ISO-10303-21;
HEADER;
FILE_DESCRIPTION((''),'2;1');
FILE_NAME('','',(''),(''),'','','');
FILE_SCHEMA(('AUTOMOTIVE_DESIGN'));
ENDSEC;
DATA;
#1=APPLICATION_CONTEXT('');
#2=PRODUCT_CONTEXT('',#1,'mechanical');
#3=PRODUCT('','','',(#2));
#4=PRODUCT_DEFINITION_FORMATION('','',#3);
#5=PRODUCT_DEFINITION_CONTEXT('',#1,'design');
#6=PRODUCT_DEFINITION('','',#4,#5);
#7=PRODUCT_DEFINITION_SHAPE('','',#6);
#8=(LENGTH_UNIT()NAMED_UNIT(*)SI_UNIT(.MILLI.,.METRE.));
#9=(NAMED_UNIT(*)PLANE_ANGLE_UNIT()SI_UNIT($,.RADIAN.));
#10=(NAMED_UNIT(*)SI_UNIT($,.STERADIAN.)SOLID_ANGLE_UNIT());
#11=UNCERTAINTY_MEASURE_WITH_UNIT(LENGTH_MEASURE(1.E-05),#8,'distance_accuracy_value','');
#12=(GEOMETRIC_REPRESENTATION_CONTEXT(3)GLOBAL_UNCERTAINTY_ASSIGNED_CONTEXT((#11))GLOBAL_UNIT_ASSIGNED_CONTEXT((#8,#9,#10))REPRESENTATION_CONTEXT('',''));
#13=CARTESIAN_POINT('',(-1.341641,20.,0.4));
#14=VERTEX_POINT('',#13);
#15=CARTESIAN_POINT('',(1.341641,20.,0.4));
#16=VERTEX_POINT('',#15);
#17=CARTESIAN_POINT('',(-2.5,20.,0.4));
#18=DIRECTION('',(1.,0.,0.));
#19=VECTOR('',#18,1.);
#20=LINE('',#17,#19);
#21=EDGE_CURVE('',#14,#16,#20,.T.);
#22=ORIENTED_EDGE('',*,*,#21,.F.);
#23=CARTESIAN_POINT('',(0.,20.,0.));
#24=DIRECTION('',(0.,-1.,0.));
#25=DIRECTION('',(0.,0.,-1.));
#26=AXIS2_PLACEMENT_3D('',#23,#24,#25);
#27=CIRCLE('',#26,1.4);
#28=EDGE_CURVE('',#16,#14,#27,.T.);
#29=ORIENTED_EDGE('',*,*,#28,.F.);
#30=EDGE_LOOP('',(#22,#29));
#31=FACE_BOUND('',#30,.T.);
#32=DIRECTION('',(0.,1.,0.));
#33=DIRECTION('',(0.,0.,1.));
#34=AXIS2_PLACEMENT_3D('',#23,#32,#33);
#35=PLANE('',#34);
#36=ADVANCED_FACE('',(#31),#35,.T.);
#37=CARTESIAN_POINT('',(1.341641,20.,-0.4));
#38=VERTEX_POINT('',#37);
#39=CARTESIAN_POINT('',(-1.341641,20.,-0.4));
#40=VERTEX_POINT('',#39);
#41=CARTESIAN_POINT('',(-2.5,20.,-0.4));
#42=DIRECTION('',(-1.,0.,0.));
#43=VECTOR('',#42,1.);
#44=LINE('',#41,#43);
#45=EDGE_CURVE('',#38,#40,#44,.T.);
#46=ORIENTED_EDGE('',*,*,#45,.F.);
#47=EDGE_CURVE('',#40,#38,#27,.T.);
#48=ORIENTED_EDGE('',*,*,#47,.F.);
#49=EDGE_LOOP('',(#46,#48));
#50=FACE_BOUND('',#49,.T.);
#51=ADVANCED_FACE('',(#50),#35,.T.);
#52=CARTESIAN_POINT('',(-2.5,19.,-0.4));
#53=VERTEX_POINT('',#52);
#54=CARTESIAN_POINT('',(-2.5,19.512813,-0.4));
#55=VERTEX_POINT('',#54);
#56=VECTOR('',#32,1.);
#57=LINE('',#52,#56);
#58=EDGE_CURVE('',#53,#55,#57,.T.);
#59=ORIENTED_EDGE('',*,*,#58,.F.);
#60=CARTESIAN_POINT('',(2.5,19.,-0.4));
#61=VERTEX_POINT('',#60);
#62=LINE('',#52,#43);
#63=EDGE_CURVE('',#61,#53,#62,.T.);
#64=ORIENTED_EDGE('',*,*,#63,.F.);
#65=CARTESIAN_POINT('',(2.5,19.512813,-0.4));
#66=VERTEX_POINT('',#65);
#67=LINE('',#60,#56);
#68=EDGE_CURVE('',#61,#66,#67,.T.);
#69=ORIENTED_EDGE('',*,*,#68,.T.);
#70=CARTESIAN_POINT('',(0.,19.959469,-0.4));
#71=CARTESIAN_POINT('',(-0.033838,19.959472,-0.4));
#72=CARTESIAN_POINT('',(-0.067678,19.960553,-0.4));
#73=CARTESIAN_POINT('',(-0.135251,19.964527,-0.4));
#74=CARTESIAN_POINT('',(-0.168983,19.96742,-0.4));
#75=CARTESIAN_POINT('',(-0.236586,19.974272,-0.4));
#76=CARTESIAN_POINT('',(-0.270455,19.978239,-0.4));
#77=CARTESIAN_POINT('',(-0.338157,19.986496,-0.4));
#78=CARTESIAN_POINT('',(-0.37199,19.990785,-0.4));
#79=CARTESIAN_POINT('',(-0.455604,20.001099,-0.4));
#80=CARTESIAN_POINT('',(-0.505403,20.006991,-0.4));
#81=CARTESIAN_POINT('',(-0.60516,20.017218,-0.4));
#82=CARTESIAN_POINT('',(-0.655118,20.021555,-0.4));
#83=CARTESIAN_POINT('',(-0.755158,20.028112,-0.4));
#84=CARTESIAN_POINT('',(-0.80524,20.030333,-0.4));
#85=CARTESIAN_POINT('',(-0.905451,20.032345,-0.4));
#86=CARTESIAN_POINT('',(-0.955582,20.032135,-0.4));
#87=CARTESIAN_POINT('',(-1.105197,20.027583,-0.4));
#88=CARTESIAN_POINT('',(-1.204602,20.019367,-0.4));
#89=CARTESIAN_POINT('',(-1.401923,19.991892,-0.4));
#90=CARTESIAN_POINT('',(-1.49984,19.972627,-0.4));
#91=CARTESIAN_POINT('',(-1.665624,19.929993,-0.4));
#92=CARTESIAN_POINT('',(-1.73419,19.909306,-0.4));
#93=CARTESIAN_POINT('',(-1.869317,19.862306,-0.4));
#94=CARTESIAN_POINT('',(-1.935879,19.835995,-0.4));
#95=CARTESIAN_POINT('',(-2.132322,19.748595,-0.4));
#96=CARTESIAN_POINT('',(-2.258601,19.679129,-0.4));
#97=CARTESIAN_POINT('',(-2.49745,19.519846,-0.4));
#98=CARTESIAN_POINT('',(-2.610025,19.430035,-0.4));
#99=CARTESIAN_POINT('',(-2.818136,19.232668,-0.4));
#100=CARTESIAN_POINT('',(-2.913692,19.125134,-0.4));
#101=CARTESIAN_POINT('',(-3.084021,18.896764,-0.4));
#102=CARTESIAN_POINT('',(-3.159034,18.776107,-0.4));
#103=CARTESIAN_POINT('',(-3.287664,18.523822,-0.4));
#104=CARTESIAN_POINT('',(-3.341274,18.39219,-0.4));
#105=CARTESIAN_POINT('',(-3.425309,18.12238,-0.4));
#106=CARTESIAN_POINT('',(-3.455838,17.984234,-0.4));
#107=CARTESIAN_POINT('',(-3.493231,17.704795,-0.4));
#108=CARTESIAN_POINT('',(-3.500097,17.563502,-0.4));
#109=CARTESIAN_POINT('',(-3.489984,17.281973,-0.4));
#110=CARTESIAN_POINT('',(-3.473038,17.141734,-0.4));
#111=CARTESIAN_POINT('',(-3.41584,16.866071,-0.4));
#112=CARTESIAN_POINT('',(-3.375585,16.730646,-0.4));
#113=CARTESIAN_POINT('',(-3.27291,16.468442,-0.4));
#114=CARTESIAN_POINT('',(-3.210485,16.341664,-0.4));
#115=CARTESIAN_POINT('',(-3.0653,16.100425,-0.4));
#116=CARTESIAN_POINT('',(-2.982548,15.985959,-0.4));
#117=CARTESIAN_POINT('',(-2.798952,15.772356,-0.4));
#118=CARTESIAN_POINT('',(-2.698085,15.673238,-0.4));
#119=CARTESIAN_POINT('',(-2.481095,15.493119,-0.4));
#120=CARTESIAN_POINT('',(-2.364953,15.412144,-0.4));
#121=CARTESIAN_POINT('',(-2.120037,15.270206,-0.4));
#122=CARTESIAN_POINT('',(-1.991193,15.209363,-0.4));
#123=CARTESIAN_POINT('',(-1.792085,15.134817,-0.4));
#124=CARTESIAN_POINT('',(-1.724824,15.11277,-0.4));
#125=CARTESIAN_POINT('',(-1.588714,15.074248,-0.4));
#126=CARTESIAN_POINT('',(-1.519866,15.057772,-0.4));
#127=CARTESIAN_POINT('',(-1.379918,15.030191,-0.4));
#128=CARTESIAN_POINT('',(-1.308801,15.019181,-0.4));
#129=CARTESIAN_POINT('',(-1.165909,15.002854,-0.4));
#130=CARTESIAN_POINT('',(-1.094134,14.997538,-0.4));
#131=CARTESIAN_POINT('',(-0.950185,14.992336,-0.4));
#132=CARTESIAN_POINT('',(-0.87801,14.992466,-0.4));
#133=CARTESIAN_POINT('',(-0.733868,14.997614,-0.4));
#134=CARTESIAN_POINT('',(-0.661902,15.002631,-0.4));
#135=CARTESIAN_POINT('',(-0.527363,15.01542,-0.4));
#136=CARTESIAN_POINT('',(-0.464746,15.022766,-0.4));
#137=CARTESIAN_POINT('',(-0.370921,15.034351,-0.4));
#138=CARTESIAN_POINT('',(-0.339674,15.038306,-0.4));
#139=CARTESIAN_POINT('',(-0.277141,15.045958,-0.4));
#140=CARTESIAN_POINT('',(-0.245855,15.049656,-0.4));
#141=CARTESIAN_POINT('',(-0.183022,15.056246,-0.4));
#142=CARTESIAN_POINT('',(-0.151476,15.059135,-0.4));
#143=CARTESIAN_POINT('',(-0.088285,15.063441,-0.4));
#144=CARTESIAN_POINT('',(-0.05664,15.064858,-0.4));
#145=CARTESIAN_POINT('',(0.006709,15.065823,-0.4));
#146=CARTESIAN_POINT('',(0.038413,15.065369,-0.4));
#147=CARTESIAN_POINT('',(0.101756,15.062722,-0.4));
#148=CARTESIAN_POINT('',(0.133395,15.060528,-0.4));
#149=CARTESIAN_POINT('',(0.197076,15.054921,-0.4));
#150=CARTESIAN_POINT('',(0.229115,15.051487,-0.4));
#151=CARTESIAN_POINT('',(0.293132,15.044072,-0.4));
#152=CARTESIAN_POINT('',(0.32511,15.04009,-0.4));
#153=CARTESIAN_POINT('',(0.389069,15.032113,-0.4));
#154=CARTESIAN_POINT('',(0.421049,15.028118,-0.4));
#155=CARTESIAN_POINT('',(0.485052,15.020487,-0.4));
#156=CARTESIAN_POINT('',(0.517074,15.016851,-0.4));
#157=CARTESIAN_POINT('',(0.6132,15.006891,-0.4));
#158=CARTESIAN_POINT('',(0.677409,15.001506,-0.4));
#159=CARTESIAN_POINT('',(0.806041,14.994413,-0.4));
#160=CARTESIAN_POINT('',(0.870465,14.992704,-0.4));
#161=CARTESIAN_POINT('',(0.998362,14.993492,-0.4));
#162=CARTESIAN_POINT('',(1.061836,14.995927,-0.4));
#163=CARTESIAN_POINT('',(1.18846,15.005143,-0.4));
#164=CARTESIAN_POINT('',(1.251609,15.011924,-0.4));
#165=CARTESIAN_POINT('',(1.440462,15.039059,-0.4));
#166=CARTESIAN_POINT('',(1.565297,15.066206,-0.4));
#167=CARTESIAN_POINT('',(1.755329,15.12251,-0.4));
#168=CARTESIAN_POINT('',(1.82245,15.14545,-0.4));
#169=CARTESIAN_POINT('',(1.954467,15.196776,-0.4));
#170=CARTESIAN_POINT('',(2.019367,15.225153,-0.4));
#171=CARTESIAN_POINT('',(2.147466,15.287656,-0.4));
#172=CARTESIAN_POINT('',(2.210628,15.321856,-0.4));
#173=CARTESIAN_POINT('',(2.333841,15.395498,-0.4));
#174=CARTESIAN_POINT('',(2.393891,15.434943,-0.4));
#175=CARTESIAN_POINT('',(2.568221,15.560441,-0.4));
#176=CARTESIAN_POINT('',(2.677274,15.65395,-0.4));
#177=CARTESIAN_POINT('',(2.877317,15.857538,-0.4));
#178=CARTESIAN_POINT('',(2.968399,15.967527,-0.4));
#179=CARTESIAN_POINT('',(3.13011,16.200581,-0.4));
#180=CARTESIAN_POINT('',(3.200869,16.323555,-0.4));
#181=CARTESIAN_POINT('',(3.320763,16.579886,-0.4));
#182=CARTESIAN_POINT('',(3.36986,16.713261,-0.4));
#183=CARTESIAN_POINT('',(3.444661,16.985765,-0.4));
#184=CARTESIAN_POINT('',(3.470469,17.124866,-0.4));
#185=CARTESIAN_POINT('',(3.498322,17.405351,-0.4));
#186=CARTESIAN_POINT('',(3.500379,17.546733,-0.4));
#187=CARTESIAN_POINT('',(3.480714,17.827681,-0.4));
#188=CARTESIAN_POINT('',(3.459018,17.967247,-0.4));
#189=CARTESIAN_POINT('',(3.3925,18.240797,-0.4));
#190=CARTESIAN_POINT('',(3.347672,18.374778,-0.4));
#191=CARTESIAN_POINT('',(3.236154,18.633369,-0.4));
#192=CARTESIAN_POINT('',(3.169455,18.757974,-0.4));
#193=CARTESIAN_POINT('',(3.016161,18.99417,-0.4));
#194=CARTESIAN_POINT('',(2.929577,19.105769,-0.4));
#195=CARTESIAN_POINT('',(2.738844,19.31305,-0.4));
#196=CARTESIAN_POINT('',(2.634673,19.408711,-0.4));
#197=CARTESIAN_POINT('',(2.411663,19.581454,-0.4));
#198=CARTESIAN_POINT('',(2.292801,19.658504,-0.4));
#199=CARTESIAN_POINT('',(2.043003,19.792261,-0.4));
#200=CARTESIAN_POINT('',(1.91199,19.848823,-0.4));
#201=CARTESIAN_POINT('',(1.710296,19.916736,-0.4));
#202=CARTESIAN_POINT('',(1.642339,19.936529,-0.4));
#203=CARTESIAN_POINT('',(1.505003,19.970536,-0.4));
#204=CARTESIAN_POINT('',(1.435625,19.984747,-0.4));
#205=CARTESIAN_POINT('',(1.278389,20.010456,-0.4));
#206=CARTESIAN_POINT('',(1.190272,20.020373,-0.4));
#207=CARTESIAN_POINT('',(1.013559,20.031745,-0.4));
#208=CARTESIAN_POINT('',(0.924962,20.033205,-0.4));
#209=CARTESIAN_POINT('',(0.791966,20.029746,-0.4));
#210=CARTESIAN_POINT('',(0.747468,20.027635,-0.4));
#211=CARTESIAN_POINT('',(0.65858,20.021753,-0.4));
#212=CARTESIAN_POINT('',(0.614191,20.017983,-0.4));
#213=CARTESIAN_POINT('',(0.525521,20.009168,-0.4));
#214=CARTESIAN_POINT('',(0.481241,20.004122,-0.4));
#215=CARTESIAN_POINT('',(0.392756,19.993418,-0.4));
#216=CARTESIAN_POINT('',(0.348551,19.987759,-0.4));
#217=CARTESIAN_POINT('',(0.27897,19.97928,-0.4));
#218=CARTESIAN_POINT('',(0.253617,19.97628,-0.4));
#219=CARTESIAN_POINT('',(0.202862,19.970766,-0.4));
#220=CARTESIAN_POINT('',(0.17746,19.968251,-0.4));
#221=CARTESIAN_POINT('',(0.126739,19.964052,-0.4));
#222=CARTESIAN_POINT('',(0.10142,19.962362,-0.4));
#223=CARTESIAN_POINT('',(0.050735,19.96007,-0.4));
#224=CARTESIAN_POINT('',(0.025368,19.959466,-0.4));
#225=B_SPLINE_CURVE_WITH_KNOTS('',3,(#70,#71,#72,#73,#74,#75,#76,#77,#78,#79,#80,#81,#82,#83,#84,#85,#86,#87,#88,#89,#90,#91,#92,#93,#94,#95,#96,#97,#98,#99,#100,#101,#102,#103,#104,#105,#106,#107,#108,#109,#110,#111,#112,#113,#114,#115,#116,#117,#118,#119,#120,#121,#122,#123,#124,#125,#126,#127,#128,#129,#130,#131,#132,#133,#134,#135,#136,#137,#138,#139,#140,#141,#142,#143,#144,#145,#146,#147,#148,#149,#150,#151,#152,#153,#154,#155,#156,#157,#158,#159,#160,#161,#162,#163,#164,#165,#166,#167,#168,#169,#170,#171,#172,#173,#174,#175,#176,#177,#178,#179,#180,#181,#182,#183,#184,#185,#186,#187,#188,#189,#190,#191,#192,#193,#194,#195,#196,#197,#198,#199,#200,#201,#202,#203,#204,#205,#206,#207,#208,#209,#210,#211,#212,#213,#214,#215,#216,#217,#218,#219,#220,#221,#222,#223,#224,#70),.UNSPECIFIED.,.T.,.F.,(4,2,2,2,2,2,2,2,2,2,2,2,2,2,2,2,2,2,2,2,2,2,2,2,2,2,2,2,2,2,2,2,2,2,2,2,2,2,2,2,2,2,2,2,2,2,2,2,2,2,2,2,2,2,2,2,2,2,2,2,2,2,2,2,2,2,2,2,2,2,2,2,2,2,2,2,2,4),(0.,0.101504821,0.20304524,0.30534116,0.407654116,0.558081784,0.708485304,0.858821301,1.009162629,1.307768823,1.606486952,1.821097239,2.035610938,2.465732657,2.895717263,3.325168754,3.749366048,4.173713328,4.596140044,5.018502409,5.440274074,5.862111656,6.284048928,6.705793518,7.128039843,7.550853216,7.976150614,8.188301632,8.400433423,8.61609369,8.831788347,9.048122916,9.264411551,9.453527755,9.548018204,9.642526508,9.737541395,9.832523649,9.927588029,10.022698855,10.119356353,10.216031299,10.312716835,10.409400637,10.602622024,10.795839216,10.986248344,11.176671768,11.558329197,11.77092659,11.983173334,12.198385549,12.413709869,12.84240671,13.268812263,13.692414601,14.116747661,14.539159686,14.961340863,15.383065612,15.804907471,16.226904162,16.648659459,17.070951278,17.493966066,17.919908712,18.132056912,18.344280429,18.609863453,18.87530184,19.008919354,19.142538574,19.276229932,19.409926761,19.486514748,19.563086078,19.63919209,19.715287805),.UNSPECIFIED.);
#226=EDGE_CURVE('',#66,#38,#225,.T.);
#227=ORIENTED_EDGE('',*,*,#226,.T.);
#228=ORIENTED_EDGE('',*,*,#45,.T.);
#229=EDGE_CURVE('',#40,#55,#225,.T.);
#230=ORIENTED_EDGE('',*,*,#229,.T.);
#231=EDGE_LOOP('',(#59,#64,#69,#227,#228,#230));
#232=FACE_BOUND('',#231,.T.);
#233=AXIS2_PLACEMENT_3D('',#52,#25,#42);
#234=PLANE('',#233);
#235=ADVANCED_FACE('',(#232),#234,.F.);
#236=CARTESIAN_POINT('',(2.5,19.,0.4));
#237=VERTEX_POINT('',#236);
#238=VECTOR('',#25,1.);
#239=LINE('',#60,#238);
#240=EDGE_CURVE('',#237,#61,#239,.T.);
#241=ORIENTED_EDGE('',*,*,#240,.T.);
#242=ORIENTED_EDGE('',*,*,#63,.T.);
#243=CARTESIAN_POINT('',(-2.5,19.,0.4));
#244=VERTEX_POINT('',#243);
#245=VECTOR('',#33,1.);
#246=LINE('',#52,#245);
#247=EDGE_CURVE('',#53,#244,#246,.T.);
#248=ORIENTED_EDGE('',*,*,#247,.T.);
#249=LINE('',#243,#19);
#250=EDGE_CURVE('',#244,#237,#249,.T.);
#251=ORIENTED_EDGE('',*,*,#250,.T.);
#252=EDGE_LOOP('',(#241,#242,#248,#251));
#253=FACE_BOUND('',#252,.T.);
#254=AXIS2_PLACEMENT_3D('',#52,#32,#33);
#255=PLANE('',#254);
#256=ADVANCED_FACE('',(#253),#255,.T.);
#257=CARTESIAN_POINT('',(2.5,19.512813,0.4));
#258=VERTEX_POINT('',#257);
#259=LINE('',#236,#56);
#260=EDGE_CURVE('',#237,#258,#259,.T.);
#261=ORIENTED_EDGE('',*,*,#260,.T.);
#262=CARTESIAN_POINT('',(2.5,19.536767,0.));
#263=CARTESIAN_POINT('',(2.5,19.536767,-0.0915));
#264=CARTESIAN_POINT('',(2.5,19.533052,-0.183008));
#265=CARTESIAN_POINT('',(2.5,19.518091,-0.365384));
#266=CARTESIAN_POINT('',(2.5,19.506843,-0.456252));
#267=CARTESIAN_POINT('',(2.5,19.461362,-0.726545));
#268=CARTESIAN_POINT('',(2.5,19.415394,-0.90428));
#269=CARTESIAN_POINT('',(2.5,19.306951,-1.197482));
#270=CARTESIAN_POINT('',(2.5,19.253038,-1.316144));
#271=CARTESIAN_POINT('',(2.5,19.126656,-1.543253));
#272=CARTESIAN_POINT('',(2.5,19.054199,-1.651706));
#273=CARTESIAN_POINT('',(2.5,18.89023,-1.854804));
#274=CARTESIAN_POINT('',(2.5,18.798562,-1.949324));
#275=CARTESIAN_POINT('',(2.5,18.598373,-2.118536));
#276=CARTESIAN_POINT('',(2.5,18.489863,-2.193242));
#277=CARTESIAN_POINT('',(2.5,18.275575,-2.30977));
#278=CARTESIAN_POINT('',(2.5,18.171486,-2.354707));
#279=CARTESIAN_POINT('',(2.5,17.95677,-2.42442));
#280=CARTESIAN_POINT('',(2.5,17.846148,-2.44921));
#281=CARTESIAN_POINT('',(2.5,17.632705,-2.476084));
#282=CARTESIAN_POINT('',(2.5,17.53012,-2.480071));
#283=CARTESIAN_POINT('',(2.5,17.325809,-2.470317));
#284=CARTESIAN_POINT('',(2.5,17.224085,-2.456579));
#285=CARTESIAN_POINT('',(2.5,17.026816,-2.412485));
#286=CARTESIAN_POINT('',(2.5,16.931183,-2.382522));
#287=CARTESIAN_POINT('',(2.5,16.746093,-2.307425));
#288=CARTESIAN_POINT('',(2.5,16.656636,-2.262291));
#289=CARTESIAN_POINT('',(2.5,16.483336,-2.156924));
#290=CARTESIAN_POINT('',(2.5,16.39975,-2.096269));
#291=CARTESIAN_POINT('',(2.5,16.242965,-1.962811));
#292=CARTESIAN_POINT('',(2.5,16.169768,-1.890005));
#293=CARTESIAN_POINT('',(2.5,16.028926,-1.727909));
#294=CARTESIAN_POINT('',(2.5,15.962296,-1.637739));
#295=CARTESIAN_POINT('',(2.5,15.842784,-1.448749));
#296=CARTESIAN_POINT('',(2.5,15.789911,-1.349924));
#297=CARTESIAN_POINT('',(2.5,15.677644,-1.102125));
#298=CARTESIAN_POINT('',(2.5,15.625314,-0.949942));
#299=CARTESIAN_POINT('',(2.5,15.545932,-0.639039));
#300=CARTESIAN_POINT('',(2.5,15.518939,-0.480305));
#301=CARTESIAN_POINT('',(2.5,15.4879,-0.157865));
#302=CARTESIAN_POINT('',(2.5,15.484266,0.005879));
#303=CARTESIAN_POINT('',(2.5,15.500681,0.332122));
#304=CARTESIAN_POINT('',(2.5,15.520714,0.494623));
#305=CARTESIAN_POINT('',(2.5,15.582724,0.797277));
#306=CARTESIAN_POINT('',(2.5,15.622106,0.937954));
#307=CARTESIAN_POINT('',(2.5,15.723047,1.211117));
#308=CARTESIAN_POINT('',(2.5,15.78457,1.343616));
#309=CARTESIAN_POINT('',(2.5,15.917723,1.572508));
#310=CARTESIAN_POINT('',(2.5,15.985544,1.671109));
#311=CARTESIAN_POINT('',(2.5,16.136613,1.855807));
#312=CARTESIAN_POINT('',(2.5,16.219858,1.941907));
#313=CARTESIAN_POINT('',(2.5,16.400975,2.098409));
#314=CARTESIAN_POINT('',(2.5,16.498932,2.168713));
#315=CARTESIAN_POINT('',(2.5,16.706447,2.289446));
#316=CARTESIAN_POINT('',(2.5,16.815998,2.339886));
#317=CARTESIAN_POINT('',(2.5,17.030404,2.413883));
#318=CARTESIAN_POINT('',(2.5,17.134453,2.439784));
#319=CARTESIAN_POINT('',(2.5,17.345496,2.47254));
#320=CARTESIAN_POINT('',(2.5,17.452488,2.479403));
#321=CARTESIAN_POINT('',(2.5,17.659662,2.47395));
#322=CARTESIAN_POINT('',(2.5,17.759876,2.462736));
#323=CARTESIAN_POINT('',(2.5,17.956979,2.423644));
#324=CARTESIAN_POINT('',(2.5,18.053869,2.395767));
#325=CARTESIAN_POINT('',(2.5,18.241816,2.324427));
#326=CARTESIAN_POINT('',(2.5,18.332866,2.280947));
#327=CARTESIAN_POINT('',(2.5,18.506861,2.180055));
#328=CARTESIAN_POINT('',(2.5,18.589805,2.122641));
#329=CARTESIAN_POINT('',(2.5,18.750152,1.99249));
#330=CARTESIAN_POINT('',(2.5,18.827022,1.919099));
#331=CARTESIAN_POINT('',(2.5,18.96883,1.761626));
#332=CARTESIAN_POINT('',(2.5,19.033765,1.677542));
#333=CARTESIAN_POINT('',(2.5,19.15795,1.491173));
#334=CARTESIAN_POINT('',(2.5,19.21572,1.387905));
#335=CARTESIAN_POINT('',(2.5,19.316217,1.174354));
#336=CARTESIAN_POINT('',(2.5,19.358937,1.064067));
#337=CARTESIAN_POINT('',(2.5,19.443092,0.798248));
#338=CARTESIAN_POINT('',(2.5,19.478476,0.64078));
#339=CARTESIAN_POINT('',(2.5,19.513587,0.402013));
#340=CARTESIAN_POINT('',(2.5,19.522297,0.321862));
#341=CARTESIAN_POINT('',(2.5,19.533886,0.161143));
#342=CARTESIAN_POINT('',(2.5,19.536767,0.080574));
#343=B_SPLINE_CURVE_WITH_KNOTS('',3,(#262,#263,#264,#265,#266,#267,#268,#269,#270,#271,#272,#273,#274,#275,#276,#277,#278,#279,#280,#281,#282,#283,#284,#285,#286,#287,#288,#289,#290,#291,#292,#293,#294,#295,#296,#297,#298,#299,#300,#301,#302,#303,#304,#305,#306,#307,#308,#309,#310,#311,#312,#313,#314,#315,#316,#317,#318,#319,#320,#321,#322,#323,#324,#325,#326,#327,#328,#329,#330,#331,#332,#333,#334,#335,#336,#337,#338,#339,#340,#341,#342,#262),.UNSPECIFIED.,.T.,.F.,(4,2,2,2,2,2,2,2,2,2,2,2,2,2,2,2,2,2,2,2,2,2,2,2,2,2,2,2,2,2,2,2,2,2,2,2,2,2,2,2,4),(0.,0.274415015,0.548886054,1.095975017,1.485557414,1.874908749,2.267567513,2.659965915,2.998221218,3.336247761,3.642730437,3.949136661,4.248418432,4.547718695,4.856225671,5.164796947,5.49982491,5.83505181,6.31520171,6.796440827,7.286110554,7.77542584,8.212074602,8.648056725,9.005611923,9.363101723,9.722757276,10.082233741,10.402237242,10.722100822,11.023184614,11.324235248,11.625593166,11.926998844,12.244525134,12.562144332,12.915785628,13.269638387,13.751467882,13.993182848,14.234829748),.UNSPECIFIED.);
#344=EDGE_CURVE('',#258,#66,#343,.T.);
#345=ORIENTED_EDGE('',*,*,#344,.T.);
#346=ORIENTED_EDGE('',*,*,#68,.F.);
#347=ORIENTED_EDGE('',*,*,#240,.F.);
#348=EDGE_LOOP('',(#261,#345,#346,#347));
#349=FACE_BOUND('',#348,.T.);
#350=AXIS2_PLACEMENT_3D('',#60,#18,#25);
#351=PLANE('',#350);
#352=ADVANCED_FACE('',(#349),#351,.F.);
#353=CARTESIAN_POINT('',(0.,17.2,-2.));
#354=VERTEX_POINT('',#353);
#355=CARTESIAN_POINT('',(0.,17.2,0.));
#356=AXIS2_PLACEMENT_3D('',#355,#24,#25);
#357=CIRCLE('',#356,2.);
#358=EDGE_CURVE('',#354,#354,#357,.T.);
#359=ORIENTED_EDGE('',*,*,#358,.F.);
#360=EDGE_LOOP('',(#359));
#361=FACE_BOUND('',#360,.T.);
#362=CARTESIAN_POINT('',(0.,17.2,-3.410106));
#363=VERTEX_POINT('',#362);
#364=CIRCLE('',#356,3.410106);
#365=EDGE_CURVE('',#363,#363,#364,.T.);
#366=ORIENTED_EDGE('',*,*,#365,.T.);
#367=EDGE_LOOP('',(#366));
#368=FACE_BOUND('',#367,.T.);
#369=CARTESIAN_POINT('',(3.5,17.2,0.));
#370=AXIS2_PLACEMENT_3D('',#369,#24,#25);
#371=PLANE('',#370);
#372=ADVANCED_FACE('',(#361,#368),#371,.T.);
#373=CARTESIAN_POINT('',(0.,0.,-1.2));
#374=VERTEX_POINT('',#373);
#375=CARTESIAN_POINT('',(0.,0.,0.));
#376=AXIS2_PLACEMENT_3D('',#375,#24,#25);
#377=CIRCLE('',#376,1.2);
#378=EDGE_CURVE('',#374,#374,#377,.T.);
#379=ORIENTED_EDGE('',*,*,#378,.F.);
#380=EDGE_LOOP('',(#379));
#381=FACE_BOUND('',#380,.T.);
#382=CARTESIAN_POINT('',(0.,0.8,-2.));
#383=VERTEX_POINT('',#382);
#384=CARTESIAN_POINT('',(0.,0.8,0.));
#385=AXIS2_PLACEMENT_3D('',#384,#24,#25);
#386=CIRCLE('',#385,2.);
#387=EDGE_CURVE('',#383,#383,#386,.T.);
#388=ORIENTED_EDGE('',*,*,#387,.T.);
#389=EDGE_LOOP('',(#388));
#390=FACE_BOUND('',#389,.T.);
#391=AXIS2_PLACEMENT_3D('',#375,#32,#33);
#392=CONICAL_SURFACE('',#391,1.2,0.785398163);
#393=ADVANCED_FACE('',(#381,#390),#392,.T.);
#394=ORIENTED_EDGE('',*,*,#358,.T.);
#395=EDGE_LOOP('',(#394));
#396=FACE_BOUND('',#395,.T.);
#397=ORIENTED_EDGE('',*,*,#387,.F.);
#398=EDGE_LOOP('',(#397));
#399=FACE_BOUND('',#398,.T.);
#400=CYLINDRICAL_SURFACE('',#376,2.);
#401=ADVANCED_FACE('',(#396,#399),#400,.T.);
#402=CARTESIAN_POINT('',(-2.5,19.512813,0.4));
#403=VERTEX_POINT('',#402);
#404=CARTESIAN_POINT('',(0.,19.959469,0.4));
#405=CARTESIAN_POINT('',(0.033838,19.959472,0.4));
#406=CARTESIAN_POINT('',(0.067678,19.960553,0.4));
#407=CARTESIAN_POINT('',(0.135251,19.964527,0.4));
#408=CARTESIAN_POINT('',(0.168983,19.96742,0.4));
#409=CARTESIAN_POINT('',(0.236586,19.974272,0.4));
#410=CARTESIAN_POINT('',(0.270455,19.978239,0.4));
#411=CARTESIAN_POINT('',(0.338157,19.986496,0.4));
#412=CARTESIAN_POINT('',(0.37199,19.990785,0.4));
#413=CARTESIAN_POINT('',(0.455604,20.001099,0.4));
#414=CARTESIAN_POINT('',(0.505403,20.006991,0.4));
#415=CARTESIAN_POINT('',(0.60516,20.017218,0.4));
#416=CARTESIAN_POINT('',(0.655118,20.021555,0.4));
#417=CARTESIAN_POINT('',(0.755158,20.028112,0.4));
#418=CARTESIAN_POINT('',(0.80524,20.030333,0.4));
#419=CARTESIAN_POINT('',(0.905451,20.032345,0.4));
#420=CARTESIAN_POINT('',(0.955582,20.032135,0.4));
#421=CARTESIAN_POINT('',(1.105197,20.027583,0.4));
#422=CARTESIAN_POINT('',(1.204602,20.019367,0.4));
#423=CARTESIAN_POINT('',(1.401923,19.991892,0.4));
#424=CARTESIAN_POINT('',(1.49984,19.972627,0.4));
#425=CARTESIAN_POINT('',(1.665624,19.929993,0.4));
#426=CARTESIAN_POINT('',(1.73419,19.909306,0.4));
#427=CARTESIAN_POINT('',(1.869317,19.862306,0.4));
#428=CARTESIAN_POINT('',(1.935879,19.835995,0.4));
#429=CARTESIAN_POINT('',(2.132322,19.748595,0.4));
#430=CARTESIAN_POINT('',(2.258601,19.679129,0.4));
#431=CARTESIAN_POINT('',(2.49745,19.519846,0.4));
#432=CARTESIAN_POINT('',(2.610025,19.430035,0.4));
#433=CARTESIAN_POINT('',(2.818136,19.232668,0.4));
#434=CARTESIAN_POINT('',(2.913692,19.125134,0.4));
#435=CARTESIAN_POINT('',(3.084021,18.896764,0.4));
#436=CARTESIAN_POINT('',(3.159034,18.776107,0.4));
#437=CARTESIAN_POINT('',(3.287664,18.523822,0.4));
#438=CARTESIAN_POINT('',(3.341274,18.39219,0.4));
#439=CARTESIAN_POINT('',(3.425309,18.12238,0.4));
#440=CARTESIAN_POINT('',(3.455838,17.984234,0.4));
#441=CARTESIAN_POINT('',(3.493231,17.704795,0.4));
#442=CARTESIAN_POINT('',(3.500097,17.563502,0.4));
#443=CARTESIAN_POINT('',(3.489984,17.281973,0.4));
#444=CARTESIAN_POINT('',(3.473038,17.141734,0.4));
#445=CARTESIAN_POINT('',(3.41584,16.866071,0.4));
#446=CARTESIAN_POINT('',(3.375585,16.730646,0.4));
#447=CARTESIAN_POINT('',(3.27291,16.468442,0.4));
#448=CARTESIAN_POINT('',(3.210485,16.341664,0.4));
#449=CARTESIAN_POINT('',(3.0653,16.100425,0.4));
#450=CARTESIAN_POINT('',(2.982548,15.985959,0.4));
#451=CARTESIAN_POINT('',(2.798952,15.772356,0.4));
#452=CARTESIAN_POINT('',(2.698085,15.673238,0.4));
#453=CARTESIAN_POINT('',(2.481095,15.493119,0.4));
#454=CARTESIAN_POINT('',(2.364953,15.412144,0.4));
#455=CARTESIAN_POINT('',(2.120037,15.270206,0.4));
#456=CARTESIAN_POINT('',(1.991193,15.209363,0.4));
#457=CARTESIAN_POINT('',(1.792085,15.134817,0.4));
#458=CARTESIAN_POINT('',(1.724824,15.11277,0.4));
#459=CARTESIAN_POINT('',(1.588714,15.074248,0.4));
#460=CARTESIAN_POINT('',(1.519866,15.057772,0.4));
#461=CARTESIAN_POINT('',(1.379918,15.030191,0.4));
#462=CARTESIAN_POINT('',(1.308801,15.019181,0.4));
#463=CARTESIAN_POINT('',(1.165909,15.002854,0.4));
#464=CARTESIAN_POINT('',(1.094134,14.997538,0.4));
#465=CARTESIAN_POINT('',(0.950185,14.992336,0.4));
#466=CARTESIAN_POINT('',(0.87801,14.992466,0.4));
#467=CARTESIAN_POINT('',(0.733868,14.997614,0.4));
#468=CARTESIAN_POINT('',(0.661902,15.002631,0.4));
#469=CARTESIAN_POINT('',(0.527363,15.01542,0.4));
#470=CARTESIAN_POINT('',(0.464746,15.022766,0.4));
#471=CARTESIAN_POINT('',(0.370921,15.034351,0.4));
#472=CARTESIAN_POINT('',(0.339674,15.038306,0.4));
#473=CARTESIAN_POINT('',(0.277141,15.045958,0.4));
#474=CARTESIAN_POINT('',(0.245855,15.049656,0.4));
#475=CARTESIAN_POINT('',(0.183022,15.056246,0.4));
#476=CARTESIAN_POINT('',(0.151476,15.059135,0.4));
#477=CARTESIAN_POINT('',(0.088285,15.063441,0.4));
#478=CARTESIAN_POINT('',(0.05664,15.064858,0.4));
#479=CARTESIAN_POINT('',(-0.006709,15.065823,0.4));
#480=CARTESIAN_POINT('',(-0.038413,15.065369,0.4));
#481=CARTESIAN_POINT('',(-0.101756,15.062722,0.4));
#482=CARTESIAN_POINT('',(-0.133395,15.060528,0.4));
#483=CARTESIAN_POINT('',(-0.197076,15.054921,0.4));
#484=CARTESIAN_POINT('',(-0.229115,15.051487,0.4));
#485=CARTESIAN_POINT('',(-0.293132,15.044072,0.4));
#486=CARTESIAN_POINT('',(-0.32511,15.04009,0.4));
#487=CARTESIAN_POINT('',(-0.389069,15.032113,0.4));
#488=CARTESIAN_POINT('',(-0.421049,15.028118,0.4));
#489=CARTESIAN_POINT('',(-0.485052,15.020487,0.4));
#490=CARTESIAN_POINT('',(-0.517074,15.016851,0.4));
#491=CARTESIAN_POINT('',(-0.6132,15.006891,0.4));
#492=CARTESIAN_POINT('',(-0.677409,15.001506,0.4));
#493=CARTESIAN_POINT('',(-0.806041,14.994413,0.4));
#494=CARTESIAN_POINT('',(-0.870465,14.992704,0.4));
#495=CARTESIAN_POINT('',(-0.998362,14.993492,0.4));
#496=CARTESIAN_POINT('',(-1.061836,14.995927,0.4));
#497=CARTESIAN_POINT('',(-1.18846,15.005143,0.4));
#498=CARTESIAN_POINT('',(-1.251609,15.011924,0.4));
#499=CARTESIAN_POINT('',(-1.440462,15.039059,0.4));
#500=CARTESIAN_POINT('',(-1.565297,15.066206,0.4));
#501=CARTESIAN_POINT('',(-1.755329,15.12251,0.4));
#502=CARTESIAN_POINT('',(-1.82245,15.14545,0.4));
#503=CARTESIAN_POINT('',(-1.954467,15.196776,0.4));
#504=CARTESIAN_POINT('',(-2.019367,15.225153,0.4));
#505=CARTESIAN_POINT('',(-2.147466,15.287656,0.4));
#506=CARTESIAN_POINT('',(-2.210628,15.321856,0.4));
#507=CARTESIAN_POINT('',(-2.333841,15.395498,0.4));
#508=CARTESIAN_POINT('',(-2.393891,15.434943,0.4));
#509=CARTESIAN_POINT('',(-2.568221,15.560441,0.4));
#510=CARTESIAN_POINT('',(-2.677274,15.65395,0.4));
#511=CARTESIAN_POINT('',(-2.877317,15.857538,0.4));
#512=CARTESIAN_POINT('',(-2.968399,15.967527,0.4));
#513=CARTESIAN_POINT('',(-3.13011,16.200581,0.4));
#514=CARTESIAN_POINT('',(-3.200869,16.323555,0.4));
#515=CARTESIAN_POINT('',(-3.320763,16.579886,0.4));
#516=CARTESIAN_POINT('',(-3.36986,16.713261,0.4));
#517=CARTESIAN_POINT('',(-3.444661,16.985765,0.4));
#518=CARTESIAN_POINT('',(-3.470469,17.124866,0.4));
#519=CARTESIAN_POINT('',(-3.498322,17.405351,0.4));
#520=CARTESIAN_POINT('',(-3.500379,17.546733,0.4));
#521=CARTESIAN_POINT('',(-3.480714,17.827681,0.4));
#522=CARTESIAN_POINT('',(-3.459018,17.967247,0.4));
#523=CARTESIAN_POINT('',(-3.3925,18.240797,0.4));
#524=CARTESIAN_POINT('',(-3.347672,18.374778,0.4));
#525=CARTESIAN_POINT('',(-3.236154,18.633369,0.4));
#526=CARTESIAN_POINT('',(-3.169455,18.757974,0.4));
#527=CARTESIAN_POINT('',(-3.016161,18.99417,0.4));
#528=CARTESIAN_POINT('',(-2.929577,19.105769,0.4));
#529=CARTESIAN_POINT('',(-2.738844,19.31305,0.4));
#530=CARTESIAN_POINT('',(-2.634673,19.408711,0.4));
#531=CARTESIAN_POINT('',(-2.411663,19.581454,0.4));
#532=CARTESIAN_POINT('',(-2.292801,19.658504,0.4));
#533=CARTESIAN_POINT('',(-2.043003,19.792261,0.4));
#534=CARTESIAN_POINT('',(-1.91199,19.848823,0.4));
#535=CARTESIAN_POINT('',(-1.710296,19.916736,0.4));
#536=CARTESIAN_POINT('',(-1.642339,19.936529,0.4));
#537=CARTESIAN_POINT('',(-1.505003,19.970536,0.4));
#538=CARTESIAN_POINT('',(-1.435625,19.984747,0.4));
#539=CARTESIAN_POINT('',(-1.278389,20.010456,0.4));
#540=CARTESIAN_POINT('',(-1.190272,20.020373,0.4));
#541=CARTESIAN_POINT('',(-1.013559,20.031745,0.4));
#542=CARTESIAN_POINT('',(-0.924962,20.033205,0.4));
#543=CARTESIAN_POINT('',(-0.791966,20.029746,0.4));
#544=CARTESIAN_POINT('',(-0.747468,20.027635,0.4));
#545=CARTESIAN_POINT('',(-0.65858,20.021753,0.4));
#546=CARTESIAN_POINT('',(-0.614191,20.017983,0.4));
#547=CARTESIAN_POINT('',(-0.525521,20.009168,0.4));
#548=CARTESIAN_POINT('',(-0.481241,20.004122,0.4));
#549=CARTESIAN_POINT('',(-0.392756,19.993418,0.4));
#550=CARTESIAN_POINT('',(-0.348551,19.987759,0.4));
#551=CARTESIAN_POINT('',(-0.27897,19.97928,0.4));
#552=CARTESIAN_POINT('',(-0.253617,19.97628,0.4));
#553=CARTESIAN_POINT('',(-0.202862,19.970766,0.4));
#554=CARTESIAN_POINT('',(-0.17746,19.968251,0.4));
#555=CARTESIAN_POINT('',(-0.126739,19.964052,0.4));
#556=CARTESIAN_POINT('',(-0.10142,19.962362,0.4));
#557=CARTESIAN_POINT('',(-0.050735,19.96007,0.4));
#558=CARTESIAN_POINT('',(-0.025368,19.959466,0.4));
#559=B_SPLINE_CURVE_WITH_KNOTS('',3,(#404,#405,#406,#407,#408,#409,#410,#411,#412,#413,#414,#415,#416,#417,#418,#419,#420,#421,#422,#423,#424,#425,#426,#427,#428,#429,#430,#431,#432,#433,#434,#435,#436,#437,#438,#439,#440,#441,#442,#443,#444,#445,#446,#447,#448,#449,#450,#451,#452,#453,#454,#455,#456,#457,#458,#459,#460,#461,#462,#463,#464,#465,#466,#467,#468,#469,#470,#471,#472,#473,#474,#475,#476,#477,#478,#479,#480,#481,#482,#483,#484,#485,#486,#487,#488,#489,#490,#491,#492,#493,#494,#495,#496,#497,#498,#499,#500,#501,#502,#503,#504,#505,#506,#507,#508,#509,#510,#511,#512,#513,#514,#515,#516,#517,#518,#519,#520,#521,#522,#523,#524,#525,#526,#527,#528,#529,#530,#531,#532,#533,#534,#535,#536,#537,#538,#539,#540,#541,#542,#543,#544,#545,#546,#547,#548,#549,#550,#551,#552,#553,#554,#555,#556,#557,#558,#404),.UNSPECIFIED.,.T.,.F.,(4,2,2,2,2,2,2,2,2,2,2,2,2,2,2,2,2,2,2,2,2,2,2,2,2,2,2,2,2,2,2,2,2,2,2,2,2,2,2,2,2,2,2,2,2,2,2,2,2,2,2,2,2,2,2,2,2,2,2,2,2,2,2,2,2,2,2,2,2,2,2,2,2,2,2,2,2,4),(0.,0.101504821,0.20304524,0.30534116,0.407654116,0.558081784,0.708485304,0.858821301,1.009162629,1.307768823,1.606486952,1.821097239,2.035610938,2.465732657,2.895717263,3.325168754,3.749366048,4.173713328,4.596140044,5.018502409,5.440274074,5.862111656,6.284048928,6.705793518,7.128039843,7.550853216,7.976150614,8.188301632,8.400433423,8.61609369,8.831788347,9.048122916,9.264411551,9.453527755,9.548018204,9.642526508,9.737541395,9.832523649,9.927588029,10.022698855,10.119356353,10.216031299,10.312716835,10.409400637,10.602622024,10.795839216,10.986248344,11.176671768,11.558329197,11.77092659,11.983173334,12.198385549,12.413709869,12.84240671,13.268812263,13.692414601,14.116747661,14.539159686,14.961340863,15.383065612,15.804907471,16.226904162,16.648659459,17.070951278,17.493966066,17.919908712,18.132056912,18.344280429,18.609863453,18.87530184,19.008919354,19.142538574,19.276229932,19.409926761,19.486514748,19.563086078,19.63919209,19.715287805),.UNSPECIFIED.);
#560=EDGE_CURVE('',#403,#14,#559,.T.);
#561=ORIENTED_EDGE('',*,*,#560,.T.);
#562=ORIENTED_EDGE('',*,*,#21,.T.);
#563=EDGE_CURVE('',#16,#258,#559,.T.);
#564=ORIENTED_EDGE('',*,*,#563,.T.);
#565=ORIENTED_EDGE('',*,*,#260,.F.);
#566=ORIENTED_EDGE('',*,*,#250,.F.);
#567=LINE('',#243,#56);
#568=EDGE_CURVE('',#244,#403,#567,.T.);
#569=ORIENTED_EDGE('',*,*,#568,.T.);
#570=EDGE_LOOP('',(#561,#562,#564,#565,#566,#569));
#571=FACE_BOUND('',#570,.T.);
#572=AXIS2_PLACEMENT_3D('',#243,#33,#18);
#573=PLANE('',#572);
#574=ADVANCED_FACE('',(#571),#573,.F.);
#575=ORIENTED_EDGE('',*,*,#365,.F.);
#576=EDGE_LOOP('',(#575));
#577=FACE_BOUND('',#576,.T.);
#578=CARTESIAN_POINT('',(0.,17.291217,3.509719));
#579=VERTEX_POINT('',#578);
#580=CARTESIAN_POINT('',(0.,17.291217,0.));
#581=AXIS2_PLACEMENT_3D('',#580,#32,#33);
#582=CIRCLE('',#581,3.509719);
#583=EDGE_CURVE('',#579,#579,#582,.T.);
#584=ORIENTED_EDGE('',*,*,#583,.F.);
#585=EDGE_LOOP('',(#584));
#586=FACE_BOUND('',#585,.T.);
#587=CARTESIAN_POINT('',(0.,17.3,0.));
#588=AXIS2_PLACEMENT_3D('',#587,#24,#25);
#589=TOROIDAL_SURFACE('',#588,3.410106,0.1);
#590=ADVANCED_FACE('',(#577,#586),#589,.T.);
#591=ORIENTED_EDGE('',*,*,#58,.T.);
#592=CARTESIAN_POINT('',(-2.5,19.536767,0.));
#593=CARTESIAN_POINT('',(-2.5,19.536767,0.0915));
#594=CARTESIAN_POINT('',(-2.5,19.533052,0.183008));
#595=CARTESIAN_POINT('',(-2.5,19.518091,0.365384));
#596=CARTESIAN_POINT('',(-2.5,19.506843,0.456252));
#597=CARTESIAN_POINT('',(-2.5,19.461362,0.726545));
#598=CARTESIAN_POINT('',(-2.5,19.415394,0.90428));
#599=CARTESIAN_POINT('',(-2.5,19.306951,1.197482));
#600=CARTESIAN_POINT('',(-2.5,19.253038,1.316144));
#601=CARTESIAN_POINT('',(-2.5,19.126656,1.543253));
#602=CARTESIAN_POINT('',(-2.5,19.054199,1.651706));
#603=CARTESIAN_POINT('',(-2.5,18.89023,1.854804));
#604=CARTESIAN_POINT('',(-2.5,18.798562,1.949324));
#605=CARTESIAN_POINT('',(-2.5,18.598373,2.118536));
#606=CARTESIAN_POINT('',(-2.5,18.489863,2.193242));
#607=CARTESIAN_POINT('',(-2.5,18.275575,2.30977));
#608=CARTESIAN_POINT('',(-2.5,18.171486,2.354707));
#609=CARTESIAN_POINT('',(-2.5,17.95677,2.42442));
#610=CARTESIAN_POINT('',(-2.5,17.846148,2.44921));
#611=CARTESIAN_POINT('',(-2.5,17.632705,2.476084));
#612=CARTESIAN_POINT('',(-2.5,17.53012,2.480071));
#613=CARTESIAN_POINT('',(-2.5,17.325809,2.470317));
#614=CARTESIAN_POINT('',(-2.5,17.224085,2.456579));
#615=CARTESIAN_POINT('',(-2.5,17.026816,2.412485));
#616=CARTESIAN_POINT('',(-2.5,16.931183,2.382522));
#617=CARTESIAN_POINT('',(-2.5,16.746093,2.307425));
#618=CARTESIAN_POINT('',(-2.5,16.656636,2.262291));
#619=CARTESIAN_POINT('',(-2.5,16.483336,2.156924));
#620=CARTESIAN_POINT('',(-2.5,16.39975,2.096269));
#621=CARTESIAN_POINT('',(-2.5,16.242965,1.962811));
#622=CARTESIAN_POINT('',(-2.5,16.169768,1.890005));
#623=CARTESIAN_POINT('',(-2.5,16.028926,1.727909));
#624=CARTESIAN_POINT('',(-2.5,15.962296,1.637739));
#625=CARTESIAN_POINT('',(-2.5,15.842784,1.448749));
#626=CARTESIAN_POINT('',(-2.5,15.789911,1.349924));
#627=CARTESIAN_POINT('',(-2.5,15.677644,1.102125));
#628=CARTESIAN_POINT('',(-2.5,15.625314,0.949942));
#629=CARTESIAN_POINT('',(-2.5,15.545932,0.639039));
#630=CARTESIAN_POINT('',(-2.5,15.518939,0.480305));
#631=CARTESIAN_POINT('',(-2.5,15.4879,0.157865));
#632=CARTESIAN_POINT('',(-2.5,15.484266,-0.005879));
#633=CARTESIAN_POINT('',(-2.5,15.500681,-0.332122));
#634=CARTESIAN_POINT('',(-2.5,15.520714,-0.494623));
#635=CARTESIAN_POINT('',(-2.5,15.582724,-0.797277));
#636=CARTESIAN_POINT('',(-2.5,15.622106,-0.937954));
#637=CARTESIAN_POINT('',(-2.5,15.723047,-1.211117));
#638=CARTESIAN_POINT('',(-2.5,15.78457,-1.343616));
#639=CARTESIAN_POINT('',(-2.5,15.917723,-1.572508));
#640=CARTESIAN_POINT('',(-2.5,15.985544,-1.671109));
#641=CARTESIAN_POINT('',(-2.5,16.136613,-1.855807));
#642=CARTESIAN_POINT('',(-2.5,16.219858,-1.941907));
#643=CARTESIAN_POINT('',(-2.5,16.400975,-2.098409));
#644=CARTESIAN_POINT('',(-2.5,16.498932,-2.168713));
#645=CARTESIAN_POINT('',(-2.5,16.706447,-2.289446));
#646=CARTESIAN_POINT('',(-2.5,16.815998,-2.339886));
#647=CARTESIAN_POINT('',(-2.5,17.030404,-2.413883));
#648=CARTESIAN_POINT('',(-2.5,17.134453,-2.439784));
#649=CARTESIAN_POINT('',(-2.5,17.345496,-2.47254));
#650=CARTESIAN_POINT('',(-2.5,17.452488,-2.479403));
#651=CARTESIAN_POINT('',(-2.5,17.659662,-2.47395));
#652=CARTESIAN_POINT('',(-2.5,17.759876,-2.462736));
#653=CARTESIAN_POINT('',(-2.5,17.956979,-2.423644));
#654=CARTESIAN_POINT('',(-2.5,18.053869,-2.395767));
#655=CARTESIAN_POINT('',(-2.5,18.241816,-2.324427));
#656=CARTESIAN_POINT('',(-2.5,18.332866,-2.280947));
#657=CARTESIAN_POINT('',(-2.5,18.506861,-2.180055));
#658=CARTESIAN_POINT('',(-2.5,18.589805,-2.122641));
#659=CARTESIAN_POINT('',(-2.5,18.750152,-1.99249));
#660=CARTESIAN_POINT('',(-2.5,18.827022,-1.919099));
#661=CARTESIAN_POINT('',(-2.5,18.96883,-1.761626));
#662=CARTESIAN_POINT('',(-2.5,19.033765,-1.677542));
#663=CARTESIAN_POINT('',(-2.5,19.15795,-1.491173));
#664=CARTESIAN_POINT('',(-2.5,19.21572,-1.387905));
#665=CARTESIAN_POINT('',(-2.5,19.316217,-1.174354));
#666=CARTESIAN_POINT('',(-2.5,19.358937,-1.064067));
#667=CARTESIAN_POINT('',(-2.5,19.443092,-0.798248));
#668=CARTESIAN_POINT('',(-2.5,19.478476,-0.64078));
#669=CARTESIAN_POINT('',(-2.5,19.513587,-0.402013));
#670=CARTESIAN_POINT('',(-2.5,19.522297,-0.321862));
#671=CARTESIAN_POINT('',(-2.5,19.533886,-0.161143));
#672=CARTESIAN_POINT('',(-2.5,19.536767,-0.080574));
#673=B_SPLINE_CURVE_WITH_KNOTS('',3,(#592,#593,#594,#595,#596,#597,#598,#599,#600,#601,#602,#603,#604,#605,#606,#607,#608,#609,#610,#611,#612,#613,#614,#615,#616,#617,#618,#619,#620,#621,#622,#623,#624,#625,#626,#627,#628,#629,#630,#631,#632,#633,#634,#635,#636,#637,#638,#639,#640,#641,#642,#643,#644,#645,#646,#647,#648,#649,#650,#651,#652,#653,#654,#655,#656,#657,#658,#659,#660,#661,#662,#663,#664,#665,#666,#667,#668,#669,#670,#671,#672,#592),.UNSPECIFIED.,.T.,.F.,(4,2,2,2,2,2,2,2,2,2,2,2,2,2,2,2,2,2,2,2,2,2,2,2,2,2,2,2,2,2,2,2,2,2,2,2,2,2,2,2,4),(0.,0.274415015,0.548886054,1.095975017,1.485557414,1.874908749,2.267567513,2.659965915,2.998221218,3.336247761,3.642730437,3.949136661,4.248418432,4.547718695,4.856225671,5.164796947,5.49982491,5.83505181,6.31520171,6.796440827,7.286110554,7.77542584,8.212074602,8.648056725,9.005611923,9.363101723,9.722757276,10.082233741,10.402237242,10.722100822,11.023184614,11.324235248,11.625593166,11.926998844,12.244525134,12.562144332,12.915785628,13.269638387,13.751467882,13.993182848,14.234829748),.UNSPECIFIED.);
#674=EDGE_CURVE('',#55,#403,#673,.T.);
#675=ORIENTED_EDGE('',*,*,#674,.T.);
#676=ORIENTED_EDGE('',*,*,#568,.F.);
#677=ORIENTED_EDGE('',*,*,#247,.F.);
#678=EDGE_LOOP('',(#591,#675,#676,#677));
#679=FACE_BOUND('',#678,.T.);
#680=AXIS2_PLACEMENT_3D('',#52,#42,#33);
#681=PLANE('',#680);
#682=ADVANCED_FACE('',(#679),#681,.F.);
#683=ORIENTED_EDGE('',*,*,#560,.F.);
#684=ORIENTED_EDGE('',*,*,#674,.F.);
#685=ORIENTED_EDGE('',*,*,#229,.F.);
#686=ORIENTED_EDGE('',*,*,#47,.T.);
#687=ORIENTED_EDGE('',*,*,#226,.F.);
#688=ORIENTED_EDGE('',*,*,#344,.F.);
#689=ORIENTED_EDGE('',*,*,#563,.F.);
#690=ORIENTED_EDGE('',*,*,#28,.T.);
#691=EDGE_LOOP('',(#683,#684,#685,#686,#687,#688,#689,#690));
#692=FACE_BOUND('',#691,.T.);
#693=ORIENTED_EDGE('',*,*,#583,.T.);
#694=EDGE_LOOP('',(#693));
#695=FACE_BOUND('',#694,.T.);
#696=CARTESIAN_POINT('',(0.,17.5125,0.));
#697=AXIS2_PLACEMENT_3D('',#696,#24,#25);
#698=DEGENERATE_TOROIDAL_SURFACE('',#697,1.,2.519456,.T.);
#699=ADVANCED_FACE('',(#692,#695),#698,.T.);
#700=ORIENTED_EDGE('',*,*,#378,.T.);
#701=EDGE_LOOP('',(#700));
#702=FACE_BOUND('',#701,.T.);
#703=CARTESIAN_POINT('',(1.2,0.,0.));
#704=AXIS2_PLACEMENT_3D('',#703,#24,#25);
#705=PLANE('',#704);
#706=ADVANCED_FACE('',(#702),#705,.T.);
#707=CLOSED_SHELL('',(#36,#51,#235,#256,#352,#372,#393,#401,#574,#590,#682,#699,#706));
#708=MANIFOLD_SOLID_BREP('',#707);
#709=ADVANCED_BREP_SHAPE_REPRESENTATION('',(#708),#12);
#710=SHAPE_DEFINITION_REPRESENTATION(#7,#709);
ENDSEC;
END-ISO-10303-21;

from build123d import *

# Parameters (mm, degrees)
FILLET_1_R          = 0.1
SKETCH_3_W          = 5
SKETCH_3_H          = 0.8
CUT_EXTRUDE_2_DEPTH = 1


with BuildPart() as part:
    # Эскиз1 → Повернуть1 (revolve)
    with BuildSketch(Plane.XY):
        with BuildLine():
            Line((3.5, 17.2), (2, 17.2))
            Line((2, 17.2), (2, 0.8))
            Line((2, 0.8), (1.2, 0))
            Line((1.2, 0), (0, 0))
            Line((0, 0), (0, 20))
            Line((0, 20), (1.4, 20))
            ThreePointArc((1.4, 20), (3.015564437, 19.024173328), (3.5, 17.2))
        make_face()
    revolve(axis=Axis((0, 0, 0), (0, 1, 0)))

    # Скругление1
    fillet_1_edges = [part.edges().sort_by_distance(p)[0] for p in [
        (-3.5, 17.2, 0),
    ]]
    fillet(fillet_1_edges, radius=FILLET_1_R)

    # Эскиз3 → Вырез-Вытянуть2 (cut)
    with BuildSketch(Plane(origin=(0, 20, 0), x_dir=(-1, 0, 0), z_dir=(0, 1, 0))):
        Rectangle(SKETCH_3_W, SKETCH_3_H)
    extrude(amount=-CUT_EXTRUDE_2_DEPTH, mode=Mode.SUBTRACT)


solid = part.part
